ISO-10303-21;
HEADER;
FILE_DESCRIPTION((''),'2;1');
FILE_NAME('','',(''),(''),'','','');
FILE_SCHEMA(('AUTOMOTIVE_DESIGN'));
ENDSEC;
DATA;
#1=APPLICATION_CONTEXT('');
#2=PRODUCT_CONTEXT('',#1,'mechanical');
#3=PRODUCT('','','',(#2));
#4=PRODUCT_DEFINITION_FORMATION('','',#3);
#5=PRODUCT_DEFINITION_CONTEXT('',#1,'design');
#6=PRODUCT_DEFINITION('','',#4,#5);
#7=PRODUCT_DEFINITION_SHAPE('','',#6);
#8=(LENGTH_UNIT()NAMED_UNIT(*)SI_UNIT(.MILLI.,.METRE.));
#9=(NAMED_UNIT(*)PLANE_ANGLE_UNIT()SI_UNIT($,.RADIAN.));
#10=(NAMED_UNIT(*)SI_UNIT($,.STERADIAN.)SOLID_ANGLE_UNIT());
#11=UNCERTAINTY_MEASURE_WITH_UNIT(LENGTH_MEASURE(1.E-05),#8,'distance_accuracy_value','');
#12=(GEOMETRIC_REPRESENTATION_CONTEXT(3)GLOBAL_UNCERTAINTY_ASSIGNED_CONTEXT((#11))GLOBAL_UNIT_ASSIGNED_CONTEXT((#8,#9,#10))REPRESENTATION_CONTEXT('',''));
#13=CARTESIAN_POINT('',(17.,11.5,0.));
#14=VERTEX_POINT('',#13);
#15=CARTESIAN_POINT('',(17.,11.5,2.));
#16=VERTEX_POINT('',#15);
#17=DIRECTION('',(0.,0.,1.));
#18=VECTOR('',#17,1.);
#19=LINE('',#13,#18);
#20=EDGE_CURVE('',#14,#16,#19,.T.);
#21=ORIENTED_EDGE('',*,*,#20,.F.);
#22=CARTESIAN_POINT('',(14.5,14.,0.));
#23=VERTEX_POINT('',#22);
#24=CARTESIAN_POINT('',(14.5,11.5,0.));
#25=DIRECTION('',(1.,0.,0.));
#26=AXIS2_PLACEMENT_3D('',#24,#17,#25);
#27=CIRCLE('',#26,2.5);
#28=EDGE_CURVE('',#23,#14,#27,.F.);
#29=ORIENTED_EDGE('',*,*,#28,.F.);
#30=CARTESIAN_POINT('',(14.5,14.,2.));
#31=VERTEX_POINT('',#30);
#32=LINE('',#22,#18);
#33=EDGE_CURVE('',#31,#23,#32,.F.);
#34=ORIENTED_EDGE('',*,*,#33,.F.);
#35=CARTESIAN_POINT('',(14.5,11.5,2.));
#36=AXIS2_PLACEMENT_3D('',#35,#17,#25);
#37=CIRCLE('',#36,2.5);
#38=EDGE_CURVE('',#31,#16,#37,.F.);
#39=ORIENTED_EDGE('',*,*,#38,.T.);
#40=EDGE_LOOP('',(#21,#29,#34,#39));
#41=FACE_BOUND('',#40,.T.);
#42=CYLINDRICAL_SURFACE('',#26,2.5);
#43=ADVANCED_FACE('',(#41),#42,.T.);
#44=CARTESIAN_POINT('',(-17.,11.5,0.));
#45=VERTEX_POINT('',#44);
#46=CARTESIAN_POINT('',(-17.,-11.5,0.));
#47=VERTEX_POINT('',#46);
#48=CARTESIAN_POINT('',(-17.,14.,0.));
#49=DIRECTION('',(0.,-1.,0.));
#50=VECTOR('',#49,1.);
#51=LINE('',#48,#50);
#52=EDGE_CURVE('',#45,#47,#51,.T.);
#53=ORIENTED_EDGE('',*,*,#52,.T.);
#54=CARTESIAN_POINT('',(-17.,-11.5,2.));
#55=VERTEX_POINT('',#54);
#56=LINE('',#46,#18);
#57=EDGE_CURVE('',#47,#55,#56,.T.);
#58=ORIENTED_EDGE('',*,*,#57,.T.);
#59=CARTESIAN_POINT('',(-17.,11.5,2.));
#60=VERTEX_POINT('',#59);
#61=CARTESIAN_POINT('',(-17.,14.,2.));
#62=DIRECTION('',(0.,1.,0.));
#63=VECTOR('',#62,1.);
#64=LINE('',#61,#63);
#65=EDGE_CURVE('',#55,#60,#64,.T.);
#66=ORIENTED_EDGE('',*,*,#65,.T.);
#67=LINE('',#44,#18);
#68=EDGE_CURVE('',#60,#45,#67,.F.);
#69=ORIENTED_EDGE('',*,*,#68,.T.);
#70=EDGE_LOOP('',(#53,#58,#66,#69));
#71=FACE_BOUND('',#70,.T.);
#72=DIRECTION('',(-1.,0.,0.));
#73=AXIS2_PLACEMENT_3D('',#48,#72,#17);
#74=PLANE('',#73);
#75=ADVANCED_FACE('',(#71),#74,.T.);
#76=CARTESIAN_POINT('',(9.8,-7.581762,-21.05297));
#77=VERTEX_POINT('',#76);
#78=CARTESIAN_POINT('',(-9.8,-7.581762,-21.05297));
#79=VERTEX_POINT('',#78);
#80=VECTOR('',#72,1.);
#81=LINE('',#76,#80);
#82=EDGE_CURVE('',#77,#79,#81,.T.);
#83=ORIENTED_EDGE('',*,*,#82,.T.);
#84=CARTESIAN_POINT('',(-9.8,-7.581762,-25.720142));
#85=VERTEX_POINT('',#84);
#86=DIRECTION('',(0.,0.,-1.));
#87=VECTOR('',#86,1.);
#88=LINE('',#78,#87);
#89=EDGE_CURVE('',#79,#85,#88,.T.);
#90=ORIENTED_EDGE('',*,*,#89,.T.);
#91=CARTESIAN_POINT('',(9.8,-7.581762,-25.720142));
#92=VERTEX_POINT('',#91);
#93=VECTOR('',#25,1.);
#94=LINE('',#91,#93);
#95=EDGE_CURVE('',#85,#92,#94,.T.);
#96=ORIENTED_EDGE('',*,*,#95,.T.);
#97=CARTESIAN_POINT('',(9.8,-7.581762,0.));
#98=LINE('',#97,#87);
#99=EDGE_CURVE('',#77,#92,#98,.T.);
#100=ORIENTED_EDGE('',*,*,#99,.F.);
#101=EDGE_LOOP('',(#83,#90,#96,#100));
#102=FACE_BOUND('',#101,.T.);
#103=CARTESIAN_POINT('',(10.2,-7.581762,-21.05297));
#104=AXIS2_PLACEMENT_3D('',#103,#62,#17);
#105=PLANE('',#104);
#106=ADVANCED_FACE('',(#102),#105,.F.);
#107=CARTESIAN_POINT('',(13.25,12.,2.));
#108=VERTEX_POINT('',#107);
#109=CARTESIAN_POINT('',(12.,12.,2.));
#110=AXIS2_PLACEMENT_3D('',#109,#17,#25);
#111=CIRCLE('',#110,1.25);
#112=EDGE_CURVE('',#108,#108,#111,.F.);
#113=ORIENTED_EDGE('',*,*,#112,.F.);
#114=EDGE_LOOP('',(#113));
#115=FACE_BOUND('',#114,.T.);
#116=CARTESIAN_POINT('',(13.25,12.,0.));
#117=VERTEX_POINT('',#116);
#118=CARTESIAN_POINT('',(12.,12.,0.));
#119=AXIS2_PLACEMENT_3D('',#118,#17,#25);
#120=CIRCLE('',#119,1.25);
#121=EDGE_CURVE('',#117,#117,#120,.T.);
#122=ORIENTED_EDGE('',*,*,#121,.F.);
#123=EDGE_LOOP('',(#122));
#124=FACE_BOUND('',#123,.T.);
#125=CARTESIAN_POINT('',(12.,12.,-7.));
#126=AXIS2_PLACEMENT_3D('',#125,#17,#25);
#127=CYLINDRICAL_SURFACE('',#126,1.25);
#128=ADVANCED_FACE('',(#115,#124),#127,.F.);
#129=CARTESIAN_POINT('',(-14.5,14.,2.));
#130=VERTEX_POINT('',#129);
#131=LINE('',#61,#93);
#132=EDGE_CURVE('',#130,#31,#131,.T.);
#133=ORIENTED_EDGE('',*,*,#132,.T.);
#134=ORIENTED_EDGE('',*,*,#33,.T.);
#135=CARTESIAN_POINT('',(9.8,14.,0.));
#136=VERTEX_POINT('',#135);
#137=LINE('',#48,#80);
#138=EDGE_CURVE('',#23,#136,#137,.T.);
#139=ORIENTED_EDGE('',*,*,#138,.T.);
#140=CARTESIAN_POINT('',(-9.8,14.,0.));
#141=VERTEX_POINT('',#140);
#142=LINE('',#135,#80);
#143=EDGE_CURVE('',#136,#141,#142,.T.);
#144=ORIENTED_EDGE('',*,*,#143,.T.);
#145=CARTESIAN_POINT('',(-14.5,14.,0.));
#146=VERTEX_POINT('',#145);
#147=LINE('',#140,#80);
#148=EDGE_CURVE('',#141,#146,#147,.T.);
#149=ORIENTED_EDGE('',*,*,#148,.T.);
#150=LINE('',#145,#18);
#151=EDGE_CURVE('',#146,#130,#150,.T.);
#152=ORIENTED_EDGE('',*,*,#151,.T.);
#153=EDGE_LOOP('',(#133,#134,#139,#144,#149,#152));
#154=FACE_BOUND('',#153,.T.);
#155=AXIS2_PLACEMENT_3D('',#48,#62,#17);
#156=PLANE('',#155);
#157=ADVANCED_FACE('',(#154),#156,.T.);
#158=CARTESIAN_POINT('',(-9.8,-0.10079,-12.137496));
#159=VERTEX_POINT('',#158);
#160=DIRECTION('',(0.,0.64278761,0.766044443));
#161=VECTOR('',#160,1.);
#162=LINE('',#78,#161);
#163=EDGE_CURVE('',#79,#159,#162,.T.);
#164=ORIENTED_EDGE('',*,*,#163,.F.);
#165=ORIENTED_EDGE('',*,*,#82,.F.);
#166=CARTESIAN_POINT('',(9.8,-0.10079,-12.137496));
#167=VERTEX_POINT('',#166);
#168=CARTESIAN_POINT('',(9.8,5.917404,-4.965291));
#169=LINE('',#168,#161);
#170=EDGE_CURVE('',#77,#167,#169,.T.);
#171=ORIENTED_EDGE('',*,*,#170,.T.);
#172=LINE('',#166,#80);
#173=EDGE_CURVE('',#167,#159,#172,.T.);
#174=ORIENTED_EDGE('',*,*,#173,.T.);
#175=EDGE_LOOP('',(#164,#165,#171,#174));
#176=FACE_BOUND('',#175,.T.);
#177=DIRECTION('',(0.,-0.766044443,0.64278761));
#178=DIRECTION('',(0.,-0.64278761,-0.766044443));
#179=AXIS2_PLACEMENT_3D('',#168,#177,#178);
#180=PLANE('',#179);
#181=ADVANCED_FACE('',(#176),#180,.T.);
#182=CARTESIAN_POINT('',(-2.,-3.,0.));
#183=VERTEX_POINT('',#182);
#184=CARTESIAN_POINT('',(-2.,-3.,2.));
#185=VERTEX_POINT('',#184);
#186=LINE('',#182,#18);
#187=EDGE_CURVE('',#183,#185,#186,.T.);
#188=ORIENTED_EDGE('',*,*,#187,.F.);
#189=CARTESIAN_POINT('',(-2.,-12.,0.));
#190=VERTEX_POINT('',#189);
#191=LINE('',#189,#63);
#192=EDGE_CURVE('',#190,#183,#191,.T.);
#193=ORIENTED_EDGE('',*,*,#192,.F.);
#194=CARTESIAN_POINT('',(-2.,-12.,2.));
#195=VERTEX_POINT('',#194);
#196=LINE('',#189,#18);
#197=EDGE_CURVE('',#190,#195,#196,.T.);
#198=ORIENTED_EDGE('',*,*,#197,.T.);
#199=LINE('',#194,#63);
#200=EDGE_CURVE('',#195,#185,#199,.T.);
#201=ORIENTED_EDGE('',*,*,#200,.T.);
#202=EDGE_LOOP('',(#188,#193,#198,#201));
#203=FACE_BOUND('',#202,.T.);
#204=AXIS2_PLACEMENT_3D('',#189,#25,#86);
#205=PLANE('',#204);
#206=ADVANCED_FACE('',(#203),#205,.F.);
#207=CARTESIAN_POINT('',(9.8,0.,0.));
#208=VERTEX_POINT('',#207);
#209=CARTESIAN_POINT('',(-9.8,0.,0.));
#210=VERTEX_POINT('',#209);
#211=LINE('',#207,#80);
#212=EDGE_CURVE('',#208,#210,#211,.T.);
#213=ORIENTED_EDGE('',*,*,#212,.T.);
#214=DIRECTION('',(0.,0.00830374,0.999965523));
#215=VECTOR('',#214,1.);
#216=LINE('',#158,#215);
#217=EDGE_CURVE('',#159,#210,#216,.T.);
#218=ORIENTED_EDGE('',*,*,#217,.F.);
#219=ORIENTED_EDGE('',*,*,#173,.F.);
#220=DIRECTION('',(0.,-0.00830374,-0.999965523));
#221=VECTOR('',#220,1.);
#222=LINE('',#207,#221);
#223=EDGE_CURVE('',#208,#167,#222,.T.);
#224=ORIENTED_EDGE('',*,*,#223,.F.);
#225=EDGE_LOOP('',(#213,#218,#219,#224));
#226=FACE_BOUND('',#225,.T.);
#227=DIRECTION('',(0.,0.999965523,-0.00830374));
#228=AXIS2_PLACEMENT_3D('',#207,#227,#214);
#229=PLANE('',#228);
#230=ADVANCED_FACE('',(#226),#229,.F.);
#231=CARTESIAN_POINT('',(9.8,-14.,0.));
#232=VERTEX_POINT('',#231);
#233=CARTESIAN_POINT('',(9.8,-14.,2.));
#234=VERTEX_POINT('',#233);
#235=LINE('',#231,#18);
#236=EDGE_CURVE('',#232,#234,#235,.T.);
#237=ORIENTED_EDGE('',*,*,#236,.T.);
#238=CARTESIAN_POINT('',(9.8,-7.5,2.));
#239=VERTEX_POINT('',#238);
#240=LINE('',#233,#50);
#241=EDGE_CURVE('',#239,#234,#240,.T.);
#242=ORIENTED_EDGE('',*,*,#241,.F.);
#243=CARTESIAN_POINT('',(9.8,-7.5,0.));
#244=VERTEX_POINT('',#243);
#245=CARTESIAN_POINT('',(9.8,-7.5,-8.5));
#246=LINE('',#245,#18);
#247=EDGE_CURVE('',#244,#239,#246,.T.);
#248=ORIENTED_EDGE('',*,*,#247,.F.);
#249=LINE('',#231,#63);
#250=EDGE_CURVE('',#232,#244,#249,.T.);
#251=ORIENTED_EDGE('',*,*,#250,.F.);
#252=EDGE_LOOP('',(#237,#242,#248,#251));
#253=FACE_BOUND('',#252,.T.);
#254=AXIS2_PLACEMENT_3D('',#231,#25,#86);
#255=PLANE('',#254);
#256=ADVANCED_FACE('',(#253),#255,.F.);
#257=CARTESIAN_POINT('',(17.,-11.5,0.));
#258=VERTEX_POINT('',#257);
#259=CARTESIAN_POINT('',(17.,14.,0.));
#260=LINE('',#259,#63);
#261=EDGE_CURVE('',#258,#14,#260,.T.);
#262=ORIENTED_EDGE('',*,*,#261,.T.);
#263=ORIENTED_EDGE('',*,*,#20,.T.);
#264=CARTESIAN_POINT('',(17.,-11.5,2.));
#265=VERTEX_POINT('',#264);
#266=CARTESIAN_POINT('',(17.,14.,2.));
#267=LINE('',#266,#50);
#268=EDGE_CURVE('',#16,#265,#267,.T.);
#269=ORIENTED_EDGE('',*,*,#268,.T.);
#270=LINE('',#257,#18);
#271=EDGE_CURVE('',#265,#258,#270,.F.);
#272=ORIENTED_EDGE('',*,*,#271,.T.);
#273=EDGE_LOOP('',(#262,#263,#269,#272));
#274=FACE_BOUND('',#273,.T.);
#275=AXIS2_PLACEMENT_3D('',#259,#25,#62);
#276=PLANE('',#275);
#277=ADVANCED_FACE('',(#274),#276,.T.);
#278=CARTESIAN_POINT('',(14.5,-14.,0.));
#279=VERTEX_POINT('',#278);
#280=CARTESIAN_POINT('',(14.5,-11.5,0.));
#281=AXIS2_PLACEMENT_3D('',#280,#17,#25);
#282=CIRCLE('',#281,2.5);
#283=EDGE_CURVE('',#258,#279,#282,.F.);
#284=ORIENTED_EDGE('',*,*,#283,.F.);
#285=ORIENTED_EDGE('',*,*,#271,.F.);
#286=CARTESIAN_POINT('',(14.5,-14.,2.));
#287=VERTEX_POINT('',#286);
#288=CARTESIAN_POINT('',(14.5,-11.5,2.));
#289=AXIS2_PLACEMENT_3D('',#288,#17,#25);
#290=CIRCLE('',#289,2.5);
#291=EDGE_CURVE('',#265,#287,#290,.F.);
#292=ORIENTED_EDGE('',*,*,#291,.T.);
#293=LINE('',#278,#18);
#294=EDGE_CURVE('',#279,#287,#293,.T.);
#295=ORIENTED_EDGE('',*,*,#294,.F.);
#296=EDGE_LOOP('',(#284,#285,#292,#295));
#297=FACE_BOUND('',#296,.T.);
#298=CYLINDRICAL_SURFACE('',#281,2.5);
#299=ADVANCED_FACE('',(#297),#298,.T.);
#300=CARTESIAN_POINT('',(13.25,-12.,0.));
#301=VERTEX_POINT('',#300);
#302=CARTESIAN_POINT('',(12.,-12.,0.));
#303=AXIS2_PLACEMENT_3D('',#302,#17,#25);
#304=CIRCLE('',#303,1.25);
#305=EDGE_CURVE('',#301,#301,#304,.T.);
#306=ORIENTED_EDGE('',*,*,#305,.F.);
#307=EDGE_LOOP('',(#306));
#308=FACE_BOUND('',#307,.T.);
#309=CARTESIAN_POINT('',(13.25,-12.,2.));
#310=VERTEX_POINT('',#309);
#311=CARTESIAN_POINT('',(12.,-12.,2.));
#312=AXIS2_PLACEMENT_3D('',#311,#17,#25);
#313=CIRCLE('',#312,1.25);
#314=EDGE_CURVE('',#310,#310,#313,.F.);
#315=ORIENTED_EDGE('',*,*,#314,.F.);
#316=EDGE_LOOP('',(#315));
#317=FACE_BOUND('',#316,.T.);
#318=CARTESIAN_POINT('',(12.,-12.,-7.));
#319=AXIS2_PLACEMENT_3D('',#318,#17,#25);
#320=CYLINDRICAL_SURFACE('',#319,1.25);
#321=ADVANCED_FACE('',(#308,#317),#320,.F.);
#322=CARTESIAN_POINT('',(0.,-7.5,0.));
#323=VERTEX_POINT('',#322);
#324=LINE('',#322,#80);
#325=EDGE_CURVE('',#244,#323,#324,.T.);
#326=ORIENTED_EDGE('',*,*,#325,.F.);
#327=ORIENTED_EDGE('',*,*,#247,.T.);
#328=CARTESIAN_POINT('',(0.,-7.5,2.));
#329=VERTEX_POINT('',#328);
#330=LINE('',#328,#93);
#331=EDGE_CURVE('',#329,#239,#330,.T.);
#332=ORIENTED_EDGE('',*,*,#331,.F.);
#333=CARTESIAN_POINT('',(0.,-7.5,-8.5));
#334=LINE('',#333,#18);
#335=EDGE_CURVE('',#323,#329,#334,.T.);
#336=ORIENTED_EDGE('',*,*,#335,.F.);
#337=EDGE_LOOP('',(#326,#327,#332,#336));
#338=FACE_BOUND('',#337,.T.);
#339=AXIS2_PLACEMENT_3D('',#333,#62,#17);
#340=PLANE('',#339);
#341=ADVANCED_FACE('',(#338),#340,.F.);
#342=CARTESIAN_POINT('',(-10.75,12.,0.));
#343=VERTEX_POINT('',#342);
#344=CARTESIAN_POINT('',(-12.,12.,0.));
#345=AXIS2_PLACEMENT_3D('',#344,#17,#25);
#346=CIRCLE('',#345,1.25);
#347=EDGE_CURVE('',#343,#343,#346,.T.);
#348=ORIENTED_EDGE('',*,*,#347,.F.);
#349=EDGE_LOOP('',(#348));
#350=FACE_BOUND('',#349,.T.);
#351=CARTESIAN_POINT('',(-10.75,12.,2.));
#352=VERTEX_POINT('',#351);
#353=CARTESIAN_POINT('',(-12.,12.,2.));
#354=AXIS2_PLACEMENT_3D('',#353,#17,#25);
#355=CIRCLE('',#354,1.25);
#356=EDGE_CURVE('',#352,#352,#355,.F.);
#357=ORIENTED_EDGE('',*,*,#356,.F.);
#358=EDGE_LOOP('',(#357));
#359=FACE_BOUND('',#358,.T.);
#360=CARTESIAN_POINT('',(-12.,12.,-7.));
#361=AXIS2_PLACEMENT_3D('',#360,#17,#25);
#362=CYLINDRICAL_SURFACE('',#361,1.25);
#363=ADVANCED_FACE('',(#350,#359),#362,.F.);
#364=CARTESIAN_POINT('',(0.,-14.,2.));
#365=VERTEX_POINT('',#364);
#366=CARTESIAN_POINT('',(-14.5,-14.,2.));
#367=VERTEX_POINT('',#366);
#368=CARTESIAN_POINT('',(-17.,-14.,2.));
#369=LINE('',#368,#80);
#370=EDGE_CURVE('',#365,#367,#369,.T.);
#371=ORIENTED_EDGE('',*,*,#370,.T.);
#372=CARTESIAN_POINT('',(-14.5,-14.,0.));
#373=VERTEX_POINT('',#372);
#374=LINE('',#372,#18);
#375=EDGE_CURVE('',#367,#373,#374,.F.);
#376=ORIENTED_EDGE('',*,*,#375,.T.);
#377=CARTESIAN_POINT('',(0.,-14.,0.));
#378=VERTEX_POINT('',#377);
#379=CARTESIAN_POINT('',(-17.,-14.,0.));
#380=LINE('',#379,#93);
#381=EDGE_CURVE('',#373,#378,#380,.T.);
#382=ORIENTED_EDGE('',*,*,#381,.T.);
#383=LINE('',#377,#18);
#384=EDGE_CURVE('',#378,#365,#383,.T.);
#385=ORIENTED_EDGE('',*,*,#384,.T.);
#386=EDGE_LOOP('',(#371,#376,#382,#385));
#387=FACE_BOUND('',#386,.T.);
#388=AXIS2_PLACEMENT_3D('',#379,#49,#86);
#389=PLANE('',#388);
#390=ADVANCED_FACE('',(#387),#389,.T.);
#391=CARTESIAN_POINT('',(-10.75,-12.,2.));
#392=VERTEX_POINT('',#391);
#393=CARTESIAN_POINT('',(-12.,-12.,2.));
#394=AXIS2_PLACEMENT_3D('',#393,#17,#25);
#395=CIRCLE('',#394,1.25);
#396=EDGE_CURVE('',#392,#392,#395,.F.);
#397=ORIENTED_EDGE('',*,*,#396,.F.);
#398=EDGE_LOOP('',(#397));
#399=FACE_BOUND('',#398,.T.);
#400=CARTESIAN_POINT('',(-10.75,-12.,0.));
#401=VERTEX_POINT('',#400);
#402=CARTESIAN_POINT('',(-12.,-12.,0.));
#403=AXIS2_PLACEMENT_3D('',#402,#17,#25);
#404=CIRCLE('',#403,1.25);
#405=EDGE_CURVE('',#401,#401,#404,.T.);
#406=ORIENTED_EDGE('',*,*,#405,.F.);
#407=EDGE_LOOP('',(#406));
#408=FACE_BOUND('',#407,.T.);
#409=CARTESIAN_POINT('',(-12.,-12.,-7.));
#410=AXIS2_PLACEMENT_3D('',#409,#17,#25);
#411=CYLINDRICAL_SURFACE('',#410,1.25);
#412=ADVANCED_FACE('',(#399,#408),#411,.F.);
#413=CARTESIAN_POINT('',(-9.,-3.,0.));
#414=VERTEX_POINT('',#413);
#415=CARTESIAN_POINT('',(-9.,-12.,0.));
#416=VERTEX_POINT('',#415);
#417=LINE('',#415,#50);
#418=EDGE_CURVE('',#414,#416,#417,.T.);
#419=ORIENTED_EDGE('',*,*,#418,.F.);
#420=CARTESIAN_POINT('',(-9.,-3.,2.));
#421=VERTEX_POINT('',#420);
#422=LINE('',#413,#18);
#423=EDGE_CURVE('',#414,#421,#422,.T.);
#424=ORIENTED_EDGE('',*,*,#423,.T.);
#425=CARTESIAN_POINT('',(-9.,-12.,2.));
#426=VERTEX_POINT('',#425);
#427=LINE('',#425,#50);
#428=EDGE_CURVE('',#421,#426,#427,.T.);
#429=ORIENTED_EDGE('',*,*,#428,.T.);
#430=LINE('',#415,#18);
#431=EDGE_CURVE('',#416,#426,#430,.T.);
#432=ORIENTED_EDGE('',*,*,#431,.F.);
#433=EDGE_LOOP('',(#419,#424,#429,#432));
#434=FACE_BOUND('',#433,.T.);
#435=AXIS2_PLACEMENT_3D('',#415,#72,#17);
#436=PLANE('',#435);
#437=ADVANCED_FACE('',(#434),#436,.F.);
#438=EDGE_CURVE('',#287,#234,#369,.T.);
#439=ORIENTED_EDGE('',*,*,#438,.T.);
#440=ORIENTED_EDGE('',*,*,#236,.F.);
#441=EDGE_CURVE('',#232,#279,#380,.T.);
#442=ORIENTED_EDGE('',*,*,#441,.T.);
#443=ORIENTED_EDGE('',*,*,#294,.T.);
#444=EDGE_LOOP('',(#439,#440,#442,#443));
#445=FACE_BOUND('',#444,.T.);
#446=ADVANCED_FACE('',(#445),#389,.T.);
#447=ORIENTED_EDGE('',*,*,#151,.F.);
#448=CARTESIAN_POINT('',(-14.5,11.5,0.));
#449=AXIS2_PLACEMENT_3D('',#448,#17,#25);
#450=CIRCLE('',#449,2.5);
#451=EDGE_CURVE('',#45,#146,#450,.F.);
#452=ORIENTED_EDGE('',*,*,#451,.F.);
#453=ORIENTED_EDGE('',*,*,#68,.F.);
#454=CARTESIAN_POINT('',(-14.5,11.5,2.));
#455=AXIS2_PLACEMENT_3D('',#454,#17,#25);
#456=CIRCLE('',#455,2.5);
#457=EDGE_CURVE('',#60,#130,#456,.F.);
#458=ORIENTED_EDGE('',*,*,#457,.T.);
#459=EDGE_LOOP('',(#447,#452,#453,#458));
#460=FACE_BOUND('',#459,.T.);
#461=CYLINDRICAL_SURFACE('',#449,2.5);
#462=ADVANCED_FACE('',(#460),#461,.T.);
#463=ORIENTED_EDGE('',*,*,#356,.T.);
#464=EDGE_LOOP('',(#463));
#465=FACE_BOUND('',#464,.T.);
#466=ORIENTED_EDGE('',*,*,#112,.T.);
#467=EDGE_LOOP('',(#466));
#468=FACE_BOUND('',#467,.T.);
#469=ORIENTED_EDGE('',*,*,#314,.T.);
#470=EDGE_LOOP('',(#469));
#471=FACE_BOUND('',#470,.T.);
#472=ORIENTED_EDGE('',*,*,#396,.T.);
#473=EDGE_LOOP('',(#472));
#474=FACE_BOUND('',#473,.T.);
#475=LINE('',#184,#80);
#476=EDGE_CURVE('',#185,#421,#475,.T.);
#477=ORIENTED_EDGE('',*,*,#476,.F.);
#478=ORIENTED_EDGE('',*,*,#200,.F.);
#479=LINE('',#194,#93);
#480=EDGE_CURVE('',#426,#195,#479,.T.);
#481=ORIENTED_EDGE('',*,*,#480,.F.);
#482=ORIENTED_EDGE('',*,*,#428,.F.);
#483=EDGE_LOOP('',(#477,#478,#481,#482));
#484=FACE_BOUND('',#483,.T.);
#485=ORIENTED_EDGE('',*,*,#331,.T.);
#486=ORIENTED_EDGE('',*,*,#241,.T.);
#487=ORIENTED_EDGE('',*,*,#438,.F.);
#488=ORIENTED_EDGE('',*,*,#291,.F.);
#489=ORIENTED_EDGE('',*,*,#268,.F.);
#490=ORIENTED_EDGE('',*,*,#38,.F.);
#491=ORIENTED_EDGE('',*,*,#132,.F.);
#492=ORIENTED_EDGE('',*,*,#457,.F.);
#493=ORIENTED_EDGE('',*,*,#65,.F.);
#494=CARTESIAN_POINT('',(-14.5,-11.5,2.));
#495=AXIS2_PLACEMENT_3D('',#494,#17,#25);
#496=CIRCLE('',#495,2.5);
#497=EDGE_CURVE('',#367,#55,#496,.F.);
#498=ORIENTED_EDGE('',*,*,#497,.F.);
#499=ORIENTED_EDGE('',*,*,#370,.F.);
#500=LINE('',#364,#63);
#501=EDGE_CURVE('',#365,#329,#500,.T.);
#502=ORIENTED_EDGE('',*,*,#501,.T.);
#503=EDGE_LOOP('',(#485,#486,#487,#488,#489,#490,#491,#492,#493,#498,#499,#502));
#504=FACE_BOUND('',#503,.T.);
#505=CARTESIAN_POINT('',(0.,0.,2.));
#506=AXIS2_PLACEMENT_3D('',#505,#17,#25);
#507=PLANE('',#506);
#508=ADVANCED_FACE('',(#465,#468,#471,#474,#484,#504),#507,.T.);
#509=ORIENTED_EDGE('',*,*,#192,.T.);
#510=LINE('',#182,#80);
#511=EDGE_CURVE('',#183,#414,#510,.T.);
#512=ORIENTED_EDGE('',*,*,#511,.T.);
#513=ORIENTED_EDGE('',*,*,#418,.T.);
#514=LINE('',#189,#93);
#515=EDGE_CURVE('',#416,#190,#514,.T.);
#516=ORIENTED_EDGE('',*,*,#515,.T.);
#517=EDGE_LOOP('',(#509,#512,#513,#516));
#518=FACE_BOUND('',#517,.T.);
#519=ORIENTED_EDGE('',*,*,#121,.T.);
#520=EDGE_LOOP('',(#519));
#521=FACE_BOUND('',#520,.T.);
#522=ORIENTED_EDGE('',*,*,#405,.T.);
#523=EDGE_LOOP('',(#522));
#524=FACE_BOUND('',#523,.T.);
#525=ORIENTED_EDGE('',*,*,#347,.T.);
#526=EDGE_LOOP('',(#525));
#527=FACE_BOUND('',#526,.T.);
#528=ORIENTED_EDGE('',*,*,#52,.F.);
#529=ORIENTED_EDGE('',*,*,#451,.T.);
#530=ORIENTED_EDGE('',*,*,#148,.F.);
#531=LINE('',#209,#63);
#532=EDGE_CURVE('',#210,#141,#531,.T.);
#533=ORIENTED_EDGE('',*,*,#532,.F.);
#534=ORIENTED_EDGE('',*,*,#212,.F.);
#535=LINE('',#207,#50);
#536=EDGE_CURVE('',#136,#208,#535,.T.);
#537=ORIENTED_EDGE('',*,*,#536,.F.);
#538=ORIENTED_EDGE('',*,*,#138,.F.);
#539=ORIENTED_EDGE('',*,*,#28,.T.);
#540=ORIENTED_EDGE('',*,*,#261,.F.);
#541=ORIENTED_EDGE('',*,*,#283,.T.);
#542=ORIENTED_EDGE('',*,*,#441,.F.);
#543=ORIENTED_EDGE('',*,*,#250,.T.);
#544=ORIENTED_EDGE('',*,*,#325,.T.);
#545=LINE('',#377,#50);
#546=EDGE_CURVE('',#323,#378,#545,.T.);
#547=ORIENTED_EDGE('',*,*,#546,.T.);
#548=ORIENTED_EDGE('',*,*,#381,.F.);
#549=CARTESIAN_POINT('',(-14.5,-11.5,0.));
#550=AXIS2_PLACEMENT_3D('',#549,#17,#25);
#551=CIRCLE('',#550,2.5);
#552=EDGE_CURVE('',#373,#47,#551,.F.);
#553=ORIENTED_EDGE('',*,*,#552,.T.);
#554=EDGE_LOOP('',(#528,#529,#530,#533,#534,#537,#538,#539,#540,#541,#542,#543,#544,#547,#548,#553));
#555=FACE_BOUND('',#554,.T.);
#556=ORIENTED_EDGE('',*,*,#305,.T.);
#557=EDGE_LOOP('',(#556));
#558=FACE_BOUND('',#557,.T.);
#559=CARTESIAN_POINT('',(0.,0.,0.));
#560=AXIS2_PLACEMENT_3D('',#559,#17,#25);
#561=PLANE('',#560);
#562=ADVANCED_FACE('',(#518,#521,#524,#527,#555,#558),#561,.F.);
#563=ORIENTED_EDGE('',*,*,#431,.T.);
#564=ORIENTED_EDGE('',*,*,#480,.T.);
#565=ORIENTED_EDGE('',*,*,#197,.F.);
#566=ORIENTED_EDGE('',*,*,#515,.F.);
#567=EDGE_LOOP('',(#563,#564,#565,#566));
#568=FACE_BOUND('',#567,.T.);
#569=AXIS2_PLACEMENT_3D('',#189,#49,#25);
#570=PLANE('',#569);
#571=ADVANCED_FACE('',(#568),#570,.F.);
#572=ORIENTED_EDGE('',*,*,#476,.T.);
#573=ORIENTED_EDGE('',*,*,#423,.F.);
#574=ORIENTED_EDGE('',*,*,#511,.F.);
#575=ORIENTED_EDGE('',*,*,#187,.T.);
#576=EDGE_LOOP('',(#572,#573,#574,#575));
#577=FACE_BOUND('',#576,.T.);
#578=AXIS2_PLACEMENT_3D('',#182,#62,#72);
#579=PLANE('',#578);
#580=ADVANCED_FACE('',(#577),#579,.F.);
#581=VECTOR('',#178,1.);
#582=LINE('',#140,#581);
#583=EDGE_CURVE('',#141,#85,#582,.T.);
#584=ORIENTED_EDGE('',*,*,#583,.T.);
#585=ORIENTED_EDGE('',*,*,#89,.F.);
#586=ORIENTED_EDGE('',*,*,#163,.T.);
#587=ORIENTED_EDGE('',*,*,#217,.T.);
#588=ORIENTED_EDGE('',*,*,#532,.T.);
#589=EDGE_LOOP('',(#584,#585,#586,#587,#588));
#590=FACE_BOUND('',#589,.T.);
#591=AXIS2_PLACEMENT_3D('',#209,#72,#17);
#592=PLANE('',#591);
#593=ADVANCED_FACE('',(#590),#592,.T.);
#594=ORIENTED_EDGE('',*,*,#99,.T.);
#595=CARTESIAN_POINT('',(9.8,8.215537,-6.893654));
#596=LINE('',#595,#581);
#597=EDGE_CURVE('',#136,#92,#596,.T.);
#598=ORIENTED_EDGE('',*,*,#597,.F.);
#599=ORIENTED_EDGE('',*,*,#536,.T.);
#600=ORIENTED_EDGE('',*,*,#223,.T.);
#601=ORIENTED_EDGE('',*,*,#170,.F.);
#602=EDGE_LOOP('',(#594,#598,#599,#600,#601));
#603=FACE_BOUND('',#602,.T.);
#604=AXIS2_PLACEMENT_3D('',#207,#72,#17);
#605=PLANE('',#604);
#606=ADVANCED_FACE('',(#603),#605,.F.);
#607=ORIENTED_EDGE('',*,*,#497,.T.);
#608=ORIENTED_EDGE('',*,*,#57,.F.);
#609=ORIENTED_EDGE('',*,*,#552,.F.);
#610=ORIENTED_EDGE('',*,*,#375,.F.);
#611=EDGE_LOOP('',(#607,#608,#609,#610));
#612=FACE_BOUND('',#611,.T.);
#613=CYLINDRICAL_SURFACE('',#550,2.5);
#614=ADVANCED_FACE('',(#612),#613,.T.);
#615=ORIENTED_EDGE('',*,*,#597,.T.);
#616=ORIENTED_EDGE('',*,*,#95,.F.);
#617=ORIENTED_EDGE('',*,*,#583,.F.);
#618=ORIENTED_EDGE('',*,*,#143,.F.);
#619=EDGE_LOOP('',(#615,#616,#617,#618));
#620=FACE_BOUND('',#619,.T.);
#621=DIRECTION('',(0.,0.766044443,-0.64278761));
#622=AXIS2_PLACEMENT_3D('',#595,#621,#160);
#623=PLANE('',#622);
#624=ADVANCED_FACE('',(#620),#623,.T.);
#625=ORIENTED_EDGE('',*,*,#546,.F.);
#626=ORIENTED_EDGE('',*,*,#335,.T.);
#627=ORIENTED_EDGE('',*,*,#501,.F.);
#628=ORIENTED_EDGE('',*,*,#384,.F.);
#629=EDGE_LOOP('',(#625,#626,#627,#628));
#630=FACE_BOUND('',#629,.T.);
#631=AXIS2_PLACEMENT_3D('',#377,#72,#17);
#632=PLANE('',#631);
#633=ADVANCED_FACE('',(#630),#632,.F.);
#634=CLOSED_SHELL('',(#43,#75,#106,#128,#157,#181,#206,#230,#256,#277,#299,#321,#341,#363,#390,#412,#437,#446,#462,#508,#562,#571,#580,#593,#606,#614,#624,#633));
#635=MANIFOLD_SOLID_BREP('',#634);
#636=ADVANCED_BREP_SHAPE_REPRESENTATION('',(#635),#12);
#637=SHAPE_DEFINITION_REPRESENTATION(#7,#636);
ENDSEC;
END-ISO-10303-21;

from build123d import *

# Parameters (mm, degrees)
SKETCH_1_W           = 40
SKETCH_1_H           = 32
SKETCH_1_R           = 1.15
EXTRUDE_1_DEPTH      = 3
SKETCH_2_W           = 9.8
SKETCH_2_H           = 5
CUT_EXTRUDE_1_DEPTH  = 3
SKETCH_3_W           = 40
SKETCH_3_H           = 32
SKETCH_3_W_2         = 34
SKETCH_3_H_2         = 28
CUT_EXTRUDE_2_DEPTH  = 3
SKETCH_4_R           = 1.15
EXTRUDE_2_DEPTH      = 1
EXTRUDE_3_DEPTH      = 1
EXTRUDE_5_DEPTH      = 26.8
CUT_EXTRUDE_5_DEPTH  = 7.2
SKETCH_8_W           = 7.003091986
SKETCH_8_H           = 2.463874749
CUT_EXTRUDE_6_DEPTH  = 20
CUT_EXTRUDE_START    = -1
SKETCH_10_R          = 1.15
CUT_EXTRUDE_7_DEPTH  = 1
EXTRUDE_START        = -3
SKETCH_11_R          = 1.15
EXTRUDE_6_DEPTH      = 3
CUT_EXTRUDE_8_DEPTH  = 10
EXTRUDE_START_2      = 1
SKETCH_13_R          = 2
SKETCH_13_R_2        = 1.25
EXTRUDE_9_DEPTH      = 1
SKETCH_14_W          = 8
SKETCH_14_H          = 3
CUT_EXTRUDE_10_DEPTH = 1.5
FILLET_1_R           = 2.5
SKETCH_15_W          = 9.8
SKETCH_15_H          = 1.5
CUT_EXTRUDE_11_DEPTH = 10
EXTRUDE_10_DEPTH     = 1.5
EXTRUDE_11_DEPTH     = 1
SKETCH_18_W          = 36.501584598
SKETCH_18_H          = 29.005250462
CUT_EXTRUDE_12_DEPTH = 2
SKETCH_19_W          = 7
SKETCH_19_H          = 9
CUT_EXTRUDE_13_DEPTH = 2


with BuildPart() as part:
    # 스케치1 → 보스-돌출1 (new body)
    with BuildSketch(Plane.XY):
        Rectangle(SKETCH_1_W, SKETCH_1_H)
        with Locations((-11.5, 11.5)):
            Circle(SKETCH_1_R, mode=Mode.SUBTRACT)
        with Locations((11.5, 11.5)):
            Circle(SKETCH_1_R, mode=Mode.SUBTRACT)
        with Locations((11.5, -11.5)):
            Circle(SKETCH_1_R, mode=Mode.SUBTRACT)
        with Locations((-11.5, -11.5)):
            Circle(SKETCH_1_R, mode=Mode.SUBTRACT)
    extrude(amount=EXTRUDE_1_DEPTH)

    # 스케치2 → 컷-돌출1 (cut)
    with BuildSketch(Plane.XY.offset(3)):
        with Locations((4.9, -11.5)):
            Rectangle(SKETCH_2_W, SKETCH_2_H)
    extrude(amount=-CUT_EXTRUDE_1_DEPTH, mode=Mode.SUBTRACT)

    # 스케치3 → 컷-돌출2 (cut)
    with BuildSketch(Plane.XY.offset(3)):
        Rectangle(SKETCH_3_W, SKETCH_3_H)
        Rectangle(SKETCH_3_W_2, SKETCH_3_H_2, mode=Mode.SUBTRACT)
    extrude(amount=-CUT_EXTRUDE_2_DEPTH, mode=Mode.SUBTRACT)

    # 스케치4 → 보스-돌출2 (add)
    # profile 1 of 13: a face of its own
    with BuildSketch(Plane.XY.offset(3)):
        with BuildLine():
            ThreePointArc((11.5, 14), (9.732233047, 13.267766953), (9, 11.5))
            Line((9, 11.5), (10.35, 11.5))
            ThreePointArc((10.35, 11.5), (11.5, 12.65), (12.65, 11.5))
            Line((12.65, 11.5), (14, 11.5))
            ThreePointArc((14, 11.5), (13.267766953, 13.267766953), (11.5, 14))
        make_face()
    # profile 2 of 13: a face of its own
    with BuildSketch(Plane.XY.offset(3)):
        with BuildLine():
            Line((10.35, 11.5), (9, 11.5))
            ThreePointArc((9, 11.5), (11.5, 9), (14, 11.5))
            Line((14, 11.5), (12.65, 11.5))
            ThreePointArc((12.65, 11.5), (11.5, 10.35), (10.35, 11.5))
        make_face()
    # profile 3 of 13: a face of its own
    with BuildSketch(Plane.XY.offset(3)):
        with BuildLine():
            ThreePointArc((11.5, 14), (9.732233047, 13.267766953), (9, 11.5))
            Line((9, 11.5), (10.35, 11.5))
            ThreePointArc((10.35, 11.5), (11.5, 12.65), (12.65, 11.5))
            Line((12.65, 11.5), (14, 11.5))
            ThreePointArc((14, 11.5), (13.267766953, 13.267766953), (11.5, 14))
        make_face()
    # profile 4 of 13: a face of its own
    with BuildSketch(Plane.XY.offset(3)):
        with BuildLine():
            Line((10.35, 11.5), (9, 11.5))
            ThreePointArc((9, 11.5), (11.5, 9), (14, 11.5))
            Line((14, 11.5), (12.65, 11.5))
            ThreePointArc((12.65, 11.5), (11.5, 10.35), (10.35, 11.5))
        make_face()
    # profile 5 of 13: a face of its own
    with BuildSketch(Plane.XY.offset(3)):
        with BuildLine():
            ThreePointArc((-11.5, 14), (-13.267766953, 13.267766953), (-14, 11.5))
            Line((-14, 11.5), (-12.65, 11.5))
            ThreePointArc((-12.65, 11.5), (-11.5, 12.65), (-10.35, 11.5))
            Line((-10.35, 11.5), (-9, 11.5))
            ThreePointArc((-9, 11.5), (-9.732233047, 13.267766953), (-11.5, 14))
        make_face()
    # profile 6 of 13: a face of its own
    with BuildSketch(Plane.XY.offset(3)):
        with BuildLine():
            Line((-12.65, 11.5), (-14, 11.5))
            ThreePointArc((-14, 11.5), (-11.5, 9), (-9, 11.5))
            Line((-9, 11.5), (-10.35, 11.5))
            ThreePointArc((-10.35, 11.5), (-11.5, 10.35), (-12.65, 11.5))
        make_face()
    # profile 7 of 13: a face of its own
    with BuildSketch(Plane.XY.offset(3)):
        with BuildLine():
            ThreePointArc((-11.5, 14), (-13.267766953, 13.267766953), (-14, 11.5))
            Line((-14, 11.5), (-12.65, 11.5))
            ThreePointArc((-12.65, 11.5), (-11.5, 12.65), (-10.35, 11.5))
            Line((-10.35, 11.5), (-9, 11.5))
            ThreePointArc((-9, 11.5), (-9.732233047, 13.267766953), (-11.5, 14))
        make_face()
    # profile 8 of 13: a face of its own
    with BuildSketch(Plane.XY.offset(3)):
        with BuildLine():
            Line((-12.65, 11.5), (-14, 11.5))
            ThreePointArc((-14, 11.5), (-11.5, 9), (-9, 11.5))
            Line((-9, 11.5), (-10.35, 11.5))
            ThreePointArc((-10.35, 11.5), (-11.5, 10.35), (-12.65, 11.5))
        make_face()
    # profile 9 of 13: a face of its own
    with BuildSketch(Plane.XY.offset(3)):
        with BuildLine():
            ThreePointArc((-9, -11.5), (-11.5, -9), (-14, -11.5))
            Line((-14, -11.5), (-12.65, -11.5))
            ThreePointArc((-12.65, -11.5), (-11.5, -10.35), (-10.35, -11.5))
            Line((-10.35, -11.5), (-9, -11.5))
        make_face()
    # profile 10 of 13: a face of its own
    with BuildSketch(Plane.XY.offset(3)):
        with BuildLine():
            Line((-12.65, -11.5), (-14, -11.5))
            ThreePointArc((-14, -11.5), (-13.267766953, -13.267766953), (-11.5, -14))
            ThreePointArc((-11.5, -14), (-9.732233047, -13.267766953), (-9, -11.5))
            Line((-9, -11.5), (-10.35, -11.5))
            ThreePointArc((-10.35, -11.5), (-11.5, -12.65), (-12.65, -11.5))
        make_face()
    # profile 11 of 13: a face of its own
    with BuildSketch(Plane.XY.offset(3)):
        with BuildLine():
            ThreePointArc((-9, -11.5), (-11.5, -9), (-14, -11.5))
            Line((-14, -11.5), (-12.65, -11.5))
            ThreePointArc((-12.65, -11.5), (-11.5, -10.35), (-10.35, -11.5))
            Line((-10.35, -11.5), (-9, -11.5))
        make_face()
    # profile 12 of 13: a face of its own
    with BuildSketch(Plane.XY.offset(3)):
        with BuildLine():
            Line((-12.65, -11.5), (-14, -11.5))
            ThreePointArc((-14, -11.5), (-13.267766953, -13.267766953), (-11.5, -14))
            ThreePointArc((-11.5, -14), (-9.732233047, -13.267766953), (-9, -11.5))
            Line((-9, -11.5), (-10.35, -11.5))
            ThreePointArc((-10.35, -11.5), (-11.5, -12.65), (-12.65, -11.5))
        make_face()
    # profile 13 of 13: a face of its own
    with BuildSketch(Plane.XY.offset(3)):
        with BuildLine():
            Line((9.8, -9.666969722), (9.8, -13.333030278))
            ThreePointArc((9.8, -13.333030278), (10.586921607, -13.827291956), (11.5, -14))
            ThreePointArc((11.5, -14), (13.267766953, -13.267766953), (14, -11.5))
            ThreePointArc((14, -11.5), (12.5, -9.208712153), (9.8, -9.666969722))
        make_face()
        with Locations((11.5, -11.5)):
            Circle(SKETCH_4_R, mode=Mode.SUBTRACT)
    extrude(amount=EXTRUDE_2_DEPTH)

    # 스케치5 → 보스-돌출3 (add)
    with BuildSketch(Plane.XY.offset(3)):
        with BuildLine():
            Line((14, -14), (14, -11.5))
            ThreePointArc((14, -11.5), (13.267766953, -13.267766953), (11.5, -14))
            Line((11.5, -14), (14, -14))
        make_face()
        with BuildLine():
            ThreePointArc((-11.5, -14), (-13.267766953, -13.267766953), (-14, -11.5))
            Line((-14, -11.5), (-14, -14))
            Line((-14, -14), (-11.5, -14))
        make_face()
        with BuildLine():
            Line((-9, -14), (-9, -11.5))
            ThreePointArc((-9, -11.5), (-9.732233047, -13.267766953), (-11.5, -14))
            Line((-11.5, -14), (-9, -14))
        make_face()
        with BuildLine():
            ThreePointArc((-14, 11.5), (-13.267766953, 13.267766953), (-11.5, 14))
            Line((-11.5, 14), (-14, 14))
            Line((-14, 14), (-14, 11.5))
        make_face()
        with BuildLine():
            Line((-9, 11.5), (-9, 14))
            Line((-9, 14), (-11.5, 14))
            ThreePointArc((-11.5, 14), (-9.732233047, 13.267766953), (-9, 11.5))
        make_face()
        with BuildLine():
            ThreePointArc((9, 11.5), (9.732233047, 13.267766953), (11.5, 14))
            Line((11.5, 14), (9, 14))
            Line((9, 14), (9, 11.5))
        make_face()
        with BuildLine():
            ThreePointArc((11.5, 14), (13.267766953, 13.267766953), (14, 11.5))
            Line((14, 11.5), (14, 14))
            Line((14, 14), (11.5, 14))
        make_face()
        with BuildLine():
            Line((14, -11.5), (12.65, -11.5))
            ThreePointArc((12.65, -11.5), (11.5, -12.65), (10.35, -11.5))
            Line((10.35, -11.5), (9.8, -11.5))
            Line((9.8, -11.5), (9.8, -14))
            Line((9.8, -14), (11.5, -14))
            ThreePointArc((11.5, -14), (13.267766953, -13.267766953), (14, -11.5))
        make_face()
    extrude(amount=EXTRUDE_3_DEPTH)

    # 스케치6 → 보스-돌출5 (add)
    with BuildSketch(Plane.ZY.offset(17)):
        Polygon((-22.981333294, -5.283628291), (-21.052970465, -7.58176162), (-26.811555509, -8.497566339), align=None)
        Polygon((-9.562303818, 2.060052525), (0, 10.083778132), (0, 14), (-22.981333294, -5.283628291), (-21.052970465, -7.58176162), (-12.137495761, -0.100790085), align=None)
        Polygon((-12.137495761, -0.100790085), (0, 0), (0, 10.083778132), (-9.562303818, 2.060052525), align=None)
    extrude(amount=-EXTRUDE_5_DEPTH)

    # 스케치7 → 컷-돌출5 (cut)
    with BuildSketch(Plane.ZY.offset(17)):
        Polygon((0, 0), (0, 14), (-26.811555509, -8.497566339), (-21.052970465, -7.58176162), (-12.137495761, -0.100790085), align=None)
    extrude(amount=-CUT_EXTRUDE_5_DEPTH, mode=Mode.SUBTRACT)

    # 스케치8 → 컷-돌출6 (cut)
    with BuildSketch(Plane.ZY.offset(9.8)):
        with Locations((-24.554516458, -8.813698995)):
            Rectangle(SKETCH_8_W, SKETCH_8_H)
    extrude(amount=-CUT_EXTRUDE_6_DEPTH, mode=Mode.SUBTRACT)

    # 스케치10 → 컷-돌출7 (cut)
    # profile 1 of 4: a face of its own
    with BuildSketch(Plane.XY.offset(4).offset(CUT_EXTRUDE_START)):
        with BuildLine():
            Line((-14, -11.5), (-14, -14))
            Line((-14, -14), (-9, -14))
            Line((-9, -14), (-9, -11.5))
            ThreePointArc((-9, -11.5), (-11.5, -9), (-14, -11.5))
        make_face()
        with Locations((-11.5, -11.5)):
            Circle(SKETCH_10_R, mode=Mode.SUBTRACT)
    # profile 2 of 4: a face of its own
    with BuildSketch(Plane.XY.offset(4).offset(CUT_EXTRUDE_START)):
        with BuildLine():
            Line((-14, 14), (-14, 11.5))
            ThreePointArc((-14, 11.5), (-11.5, 9), (-9, 11.5))
            Line((-9, 11.5), (-9, 14))
            Line((-9, 14), (-14, 14))
        make_face()
        with Locations((-11.5, 11.5)):
            Circle(SKETCH_10_R, mode=Mode.SUBTRACT)
    # profile 3 of 4: a face of its own
    with BuildSketch(Plane.XY.offset(4).offset(CUT_EXTRUDE_START)):
        with BuildLine():
            Line((9.8, -14), (14, -14))
            Line((14, -14), (14, -11.5))
            ThreePointArc((14, -11.5), (12.5, -9.208712153), (9.8, -9.666969722))
            Line((9.8, -9.666969722), (9.8, -14))
        make_face()
        with Locations((11.5, -11.5)):
            Circle(SKETCH_10_R, mode=Mode.SUBTRACT)
    # profile 4 of 4: a face of its own
    with BuildSketch(Plane.XY.offset(4).offset(CUT_EXTRUDE_START)):
        with BuildLine():
            Line((9, 14), (9, 11.5))
            ThreePointArc((9, 11.5), (11.5, 9), (14, 11.5))
            Line((14, 11.5), (14, 14))
            Line((14, 14), (9, 14))
        make_face()
        with Locations((11.5, 11.5)):
            Circle(SKETCH_10_R, mode=Mode.SUBTRACT)
    extrude(amount=CUT_EXTRUDE_7_DEPTH, mode=Mode.SUBTRACT)

    # 스케치11 → 보스-돌출6 (add)
    with BuildSketch(Plane.XY.offset(3).offset(EXTRUDE_START)):
        with Locations((-11.5, 11.5)):
            Circle(SKETCH_11_R)
        with Locations((11.5, 11.5)):
            Circle(SKETCH_11_R)
        with Locations((11.5, -11.5)):
            Circle(SKETCH_11_R)
        with Locations((-11.5, -11.5)):
            Circle(SKETCH_11_R)
    extrude(amount=EXTRUDE_6_DEPTH)

    # 스케치12 → 컷-돌출8 (cut)
    with BuildSketch(Plane.XY.offset(3)):
        with BuildLine():
            ThreePointArc((-10.75, 12), (-12.883883476, 12.883883476), (-12, 10.75))
            Line((-12, 10.75), (-12, 12))
            Line((-12, 12), (-10.75, 12))
        make_face()
        with BuildLine():
            Line((-12, 12), (-12, 10.75))
            ThreePointArc((-12, 10.75), (-11.116116524, 11.116116524), (-10.75, 12))
            Line((-10.75, 12), (-12, 12))
        make_face()
        with BuildLine():
            ThreePointArc((-10.75, 12), (-12.883883476, 12.883883476), (-12, 10.75))
            Line((-12, 10.75), (-12, 12))
            Line((-12, 12), (-10.75, 12))
        make_face()
        with BuildLine():
            Line((-12, 12), (-12, 10.75))
            ThreePointArc((-12, 10.75), (-11.116116524, 11.116116524), (-10.75, 12))
            Line((-10.75, 12), (-12, 12))
        make_face()
        with BuildLine():
            ThreePointArc((10.75, 12), (11.116116524, 11.116116524), (12, 10.75))
            Line((12, 10.75), (12, 12))
            Line((12, 12), (10.75, 12))
        make_face()
        with BuildLine():
            Line((12, 12), (12, 10.75))
            ThreePointArc((12, 10.75), (12.883883476, 11.116116524), (13.25, 12))
            ThreePointArc((13.25, 12), (12, 13.25), (10.75, 12))
            Line((10.75, 12), (12, 12))
        make_face()
        with BuildLine():
            ThreePointArc((10.75, 12), (11.116116524, 11.116116524), (12, 10.75))
            Line((12, 10.75), (12, 12))
            Line((12, 12), (10.75, 12))
        make_face()
        with BuildLine():
            Line((12, 12), (12, 10.75))
            ThreePointArc((12, 10.75), (12.883883476, 11.116116524), (13.25, 12))
            ThreePointArc((13.25, 12), (12, 13.25), (10.75, 12))
            Line((10.75, 12), (12, 12))
        make_face()
        with BuildLine():
            ThreePointArc((12, -10.75), (11.116116524, -11.116116524), (10.75, -12))
            Line((10.75, -12), (12, -12))
            Line((12, -12), (12, -10.75))
        make_face()
        with BuildLine():
            Line((12, -12), (10.75, -12))
            ThreePointArc((10.75, -12), (12, -13.25), (13.25, -12))
            ThreePointArc((13.25, -12), (12.883883476, -11.116116524), (12, -10.75))
            Line((12, -10.75), (12, -12))
        make_face()
        with BuildLine():
            ThreePointArc((12, -10.75), (11.116116524, -11.116116524), (10.75, -12))
            Line((10.75, -12), (12, -12))
            Line((12, -12), (12, -10.75))
        make_face()
        with BuildLine():
            Line((12, -12), (10.75, -12))
            ThreePointArc((10.75, -12), (12, -13.25), (13.25, -12))
            ThreePointArc((13.25, -12), (12.883883476, -11.116116524), (12, -10.75))
            Line((12, -10.75), (12, -12))
        make_face()
        with BuildLine():
            Line((-12, -10.75), (-12, -12))
            Line((-12, -12), (-10.75, -12))
            ThreePointArc((-10.75, -12), (-11.116116524, -11.116116524), (-12, -10.75))
        make_face()
        with BuildLine():
            Line((-10.75, -12), (-12, -12))
            Line((-12, -12), (-12, -10.75))
            ThreePointArc((-12, -10.75), (-12.883883476, -12.883883476), (-10.75, -12))
        make_face()
        with BuildLine():
            Line((-12, -10.75), (-12, -12))
            Line((-12, -12), (-10.75, -12))
            ThreePointArc((-10.75, -12), (-11.116116524, -11.116116524), (-12, -10.75))
        make_face()
        with BuildLine():
            Line((-10.75, -12), (-12, -12))
            Line((-12, -12), (-12, -10.75))
            ThreePointArc((-12, -10.75), (-12.883883476, -12.883883476), (-10.75, -12))
        make_face()
    extrude(amount=-CUT_EXTRUDE_8_DEPTH, mode=Mode.SUBTRACT)

    # 스케치13 → 보스-돌출9 (add)
    # profile 1 of 12: a face of its own
    with BuildSketch(Plane.XY.offset(3).offset(EXTRUDE_START_2)):
        with BuildLine():
            ThreePointArc((12, 14), (13.414213562, 13.414213562), (14, 12))
            Line((14, 12), (14, 14))
            Line((14, 14), (12, 14))
        make_face()
    # profile 2 of 12: a face of its own
    with BuildSketch(Plane.XY.offset(3).offset(EXTRUDE_START_2)):
        with BuildLine():
            Line((10, 14), (10, 12))
            ThreePointArc((10, 12), (10.585786438, 13.414213562), (12, 14))
            Line((12, 14), (10, 14))
        make_face()
    # profile 3 of 12: a face of its own
    with BuildSketch(Plane.XY.offset(3).offset(EXTRUDE_START_2)):
        with Locations((12, 12)):
            Circle(SKETCH_13_R)
        with Locations((12, 12)):
            Circle(SKETCH_13_R_2, mode=Mode.SUBTRACT)
    # profile 4 of 12: a face of its own
    with BuildSketch(Plane.XY.offset(3).offset(EXTRUDE_START_2)):
        with BuildLine():
            Line((-10, 12), (-10, 14))
            Line((-10, 14), (-11.999999991, 14))
            ThreePointArc((-11.999999991, 14), (-10.585786434, 13.414213559), (-10, 12))
        make_face()
    # profile 5 of 12: a face of its own
    with BuildSketch(Plane.XY.offset(3).offset(EXTRUDE_START_2)):
        with BuildLine():
            ThreePointArc((-14, 12), (-13.414213559, 13.414213566), (-11.999999991, 14))
            Line((-11.999999991, 14), (-14, 14))
            Line((-14, 14), (-14, 12))
        make_face()
    # profile 6 of 12: a face of its own
    with BuildSketch(Plane.XY.offset(3).offset(EXTRUDE_START_2)):
        with Locations((-12, 12)):
            Circle(SKETCH_13_R)
        with Locations((-12, 12)):
            Circle(SKETCH_13_R_2, mode=Mode.SUBTRACT)
    # profile 7 of 12: a face of its own
    with BuildSketch(Plane.XY.offset(3).offset(EXTRUDE_START_2)):
        with Locations((-12, -12)):
            Circle(SKETCH_13_R)
        with Locations((-12, -12)):
            Circle(SKETCH_13_R_2, mode=Mode.SUBTRACT)
    # profile 8 of 12: a face of its own
    with BuildSketch(Plane.XY.offset(3).offset(EXTRUDE_START_2)):
        with BuildLine():
            Line((-10, -14), (-10, -12))
            ThreePointArc((-10, -12), (-10.585786438, -13.414213562), (-12, -14))
            Line((-12, -14), (-10, -14))
        make_face()
    # profile 9 of 12: a face of its own
    with BuildSketch(Plane.XY.offset(3).offset(EXTRUDE_START_2)):
        with BuildLine():
            ThreePointArc((-12, -14), (-13.414213562, -13.414213562), (-14, -12))
            Line((-14, -12), (-14, -14))
            Line((-14, -14), (-12, -14))
        make_face()
    # profile 10 of 12: a face of its own
    with BuildSketch(Plane.XY.offset(3).offset(EXTRUDE_START_2)):
        with BuildLine():
            Line((14, -14), (14, -12))
            ThreePointArc((14, -12), (13.414213562, -13.414213562), (12, -14))
            Line((12, -14), (14, -14))
        make_face()
    # profile 11 of 12: a face of its own
    with BuildSketch(Plane.XY.offset(3).offset(EXTRUDE_START_2)):
        with BuildLine():
            ThreePointArc((12, -14), (10.585786438, -13.414213562), (10, -12))
            Line((10, -12), (10, -14))
            Line((10, -14), (12, -14))
        make_face()
    # profile 12 of 12: a face of its own
    with BuildSketch(Plane.XY.offset(3).offset(EXTRUDE_START_2)):
        with Locations((12, -12)):
            Circle(SKETCH_13_R)
        with Locations((12, -12)):
            Circle(SKETCH_13_R_2, mode=Mode.SUBTRACT)
    extrude(amount=-EXTRUDE_9_DEPTH)

    # 스케치14 → 컷-돌출10 (cut)
    with BuildSketch(Plane.XY.offset(3)):
        Polygon((9.8, -9), (9.8, -9.75), (16, -9.75), (16, 9.75), (-16, 9.75), (-16, -9.75), (-8, -9.75), (0, -9.75), (0, -9), align=None)
        with Locations((-4, -11.25)):
            Rectangle(SKETCH_14_W, SKETCH_14_H)
    extrude(amount=-CUT_EXTRUDE_10_DEPTH, mode=Mode.SUBTRACT)

    # 필렛1
    fillet_1_edges = [part.edges().sort_by_distance(p)[0] for p in [
        (-17, -14, 1.5),
        (17, -14, 1.5),
        (-17, 14, 1.5),
        (17, 14, 1.5),
    ]]
    fillet(fillet_1_edges, radius=FILLET_1_R)

    # 스케치15 → 컷-돌출11 (cut)
    with BuildSketch(Plane.XY.offset(1.5)):
        with Locations((4.9, -8.25)):
            Rectangle(SKETCH_15_W, SKETCH_15_H)
    extrude(amount=-CUT_EXTRUDE_11_DEPTH, mode=Mode.SUBTRACT)

    # 스케치16 → 보스-돌출10 (add)
    with BuildSketch(Plane.XY.offset(1.5)):
        Polygon((0, -12.75), (0, -7.5), (9.8, -7.5), (9.8, -9.75), (16, -9.75), (16, 9.75), (-16, 9.75), (-16, -9.75), (-8, -9.75), (-8, -12.75), align=None)
    extrude(amount=EXTRUDE_10_DEPTH)

    # 스케치17 → 보스-돌출11 (add)
    with BuildSketch(Plane.XY.offset(3)):
        with BuildLine():
            Line((0, -7.5), (9.8, -7.5))
            Line((9.8, -7.5), (9.8, -14))
            Line((9.8, -14), (10, -14))
            Line((10, -14), (10, -12))
            ThreePointArc((10, -12), (12, -10), (14, -12))
            Line((14, -12), (14, -14))
            Line((14, -14), (14.5, -14))
            ThreePointArc((14.5, -14), (16.267766953, -13.267766953), (17, -11.5))
            Line((17, -11.5), (17, 11.5))
            ThreePointArc((17, 11.5), (16.267766953, 13.267766953), (14.5, 14))
            Line((14.5, 14), (14, 14))
            Line((14, 14), (14, 12))
            ThreePointArc((14, 12), (12, 10), (10, 12))
            Line((10, 12), (10, 14))
            Line((10, 14), (-10, 14))
            Line((-10, 14), (-10, 12))
            ThreePointArc((-10, 12), (-12, 10), (-14, 12))
            Line((-14, 12), (-14, 14))
            Line((-14, 14), (-14.5, 14))
            ThreePointArc((-14.5, 14), (-16.267766953, 13.267766953), (-17, 11.5))
            Line((-17, 11.5), (-17, -11.5))
            ThreePointArc((-17, -11.5), (-16.267766953, -13.267766953), (-14.5, -14))
            Line((-14.5, -14), (-14, -14))
            Line((-14, -14), (-14, -12))
            ThreePointArc((-14, -12), (-12, -10), (-10, -12))
            Line((-10, -12), (-10, -14))
            Line((-10, -14), (0, -14))
            Line((0, -14), (0, -7.5))
        make_face()
    extrude(amount=EXTRUDE_11_DEPTH)

    # 스케치18 → 컷-돌출12 (cut)
    with BuildSketch(Plane.XY.offset(4)):
        Rectangle(SKETCH_18_W, SKETCH_18_H)
    extrude(amount=-CUT_EXTRUDE_12_DEPTH, mode=Mode.SUBTRACT)

    # 스케치19 → 컷-돌출13 (cut)
    with BuildSketch(Plane.XY.offset(2)):
        with Locations((-5.5, -7.5)):
            Rectangle(SKETCH_19_W, SKETCH_19_H)
    extrude(amount=-CUT_EXTRUDE_13_DEPTH, mode=Mode.SUBTRACT)


solid = part.part
